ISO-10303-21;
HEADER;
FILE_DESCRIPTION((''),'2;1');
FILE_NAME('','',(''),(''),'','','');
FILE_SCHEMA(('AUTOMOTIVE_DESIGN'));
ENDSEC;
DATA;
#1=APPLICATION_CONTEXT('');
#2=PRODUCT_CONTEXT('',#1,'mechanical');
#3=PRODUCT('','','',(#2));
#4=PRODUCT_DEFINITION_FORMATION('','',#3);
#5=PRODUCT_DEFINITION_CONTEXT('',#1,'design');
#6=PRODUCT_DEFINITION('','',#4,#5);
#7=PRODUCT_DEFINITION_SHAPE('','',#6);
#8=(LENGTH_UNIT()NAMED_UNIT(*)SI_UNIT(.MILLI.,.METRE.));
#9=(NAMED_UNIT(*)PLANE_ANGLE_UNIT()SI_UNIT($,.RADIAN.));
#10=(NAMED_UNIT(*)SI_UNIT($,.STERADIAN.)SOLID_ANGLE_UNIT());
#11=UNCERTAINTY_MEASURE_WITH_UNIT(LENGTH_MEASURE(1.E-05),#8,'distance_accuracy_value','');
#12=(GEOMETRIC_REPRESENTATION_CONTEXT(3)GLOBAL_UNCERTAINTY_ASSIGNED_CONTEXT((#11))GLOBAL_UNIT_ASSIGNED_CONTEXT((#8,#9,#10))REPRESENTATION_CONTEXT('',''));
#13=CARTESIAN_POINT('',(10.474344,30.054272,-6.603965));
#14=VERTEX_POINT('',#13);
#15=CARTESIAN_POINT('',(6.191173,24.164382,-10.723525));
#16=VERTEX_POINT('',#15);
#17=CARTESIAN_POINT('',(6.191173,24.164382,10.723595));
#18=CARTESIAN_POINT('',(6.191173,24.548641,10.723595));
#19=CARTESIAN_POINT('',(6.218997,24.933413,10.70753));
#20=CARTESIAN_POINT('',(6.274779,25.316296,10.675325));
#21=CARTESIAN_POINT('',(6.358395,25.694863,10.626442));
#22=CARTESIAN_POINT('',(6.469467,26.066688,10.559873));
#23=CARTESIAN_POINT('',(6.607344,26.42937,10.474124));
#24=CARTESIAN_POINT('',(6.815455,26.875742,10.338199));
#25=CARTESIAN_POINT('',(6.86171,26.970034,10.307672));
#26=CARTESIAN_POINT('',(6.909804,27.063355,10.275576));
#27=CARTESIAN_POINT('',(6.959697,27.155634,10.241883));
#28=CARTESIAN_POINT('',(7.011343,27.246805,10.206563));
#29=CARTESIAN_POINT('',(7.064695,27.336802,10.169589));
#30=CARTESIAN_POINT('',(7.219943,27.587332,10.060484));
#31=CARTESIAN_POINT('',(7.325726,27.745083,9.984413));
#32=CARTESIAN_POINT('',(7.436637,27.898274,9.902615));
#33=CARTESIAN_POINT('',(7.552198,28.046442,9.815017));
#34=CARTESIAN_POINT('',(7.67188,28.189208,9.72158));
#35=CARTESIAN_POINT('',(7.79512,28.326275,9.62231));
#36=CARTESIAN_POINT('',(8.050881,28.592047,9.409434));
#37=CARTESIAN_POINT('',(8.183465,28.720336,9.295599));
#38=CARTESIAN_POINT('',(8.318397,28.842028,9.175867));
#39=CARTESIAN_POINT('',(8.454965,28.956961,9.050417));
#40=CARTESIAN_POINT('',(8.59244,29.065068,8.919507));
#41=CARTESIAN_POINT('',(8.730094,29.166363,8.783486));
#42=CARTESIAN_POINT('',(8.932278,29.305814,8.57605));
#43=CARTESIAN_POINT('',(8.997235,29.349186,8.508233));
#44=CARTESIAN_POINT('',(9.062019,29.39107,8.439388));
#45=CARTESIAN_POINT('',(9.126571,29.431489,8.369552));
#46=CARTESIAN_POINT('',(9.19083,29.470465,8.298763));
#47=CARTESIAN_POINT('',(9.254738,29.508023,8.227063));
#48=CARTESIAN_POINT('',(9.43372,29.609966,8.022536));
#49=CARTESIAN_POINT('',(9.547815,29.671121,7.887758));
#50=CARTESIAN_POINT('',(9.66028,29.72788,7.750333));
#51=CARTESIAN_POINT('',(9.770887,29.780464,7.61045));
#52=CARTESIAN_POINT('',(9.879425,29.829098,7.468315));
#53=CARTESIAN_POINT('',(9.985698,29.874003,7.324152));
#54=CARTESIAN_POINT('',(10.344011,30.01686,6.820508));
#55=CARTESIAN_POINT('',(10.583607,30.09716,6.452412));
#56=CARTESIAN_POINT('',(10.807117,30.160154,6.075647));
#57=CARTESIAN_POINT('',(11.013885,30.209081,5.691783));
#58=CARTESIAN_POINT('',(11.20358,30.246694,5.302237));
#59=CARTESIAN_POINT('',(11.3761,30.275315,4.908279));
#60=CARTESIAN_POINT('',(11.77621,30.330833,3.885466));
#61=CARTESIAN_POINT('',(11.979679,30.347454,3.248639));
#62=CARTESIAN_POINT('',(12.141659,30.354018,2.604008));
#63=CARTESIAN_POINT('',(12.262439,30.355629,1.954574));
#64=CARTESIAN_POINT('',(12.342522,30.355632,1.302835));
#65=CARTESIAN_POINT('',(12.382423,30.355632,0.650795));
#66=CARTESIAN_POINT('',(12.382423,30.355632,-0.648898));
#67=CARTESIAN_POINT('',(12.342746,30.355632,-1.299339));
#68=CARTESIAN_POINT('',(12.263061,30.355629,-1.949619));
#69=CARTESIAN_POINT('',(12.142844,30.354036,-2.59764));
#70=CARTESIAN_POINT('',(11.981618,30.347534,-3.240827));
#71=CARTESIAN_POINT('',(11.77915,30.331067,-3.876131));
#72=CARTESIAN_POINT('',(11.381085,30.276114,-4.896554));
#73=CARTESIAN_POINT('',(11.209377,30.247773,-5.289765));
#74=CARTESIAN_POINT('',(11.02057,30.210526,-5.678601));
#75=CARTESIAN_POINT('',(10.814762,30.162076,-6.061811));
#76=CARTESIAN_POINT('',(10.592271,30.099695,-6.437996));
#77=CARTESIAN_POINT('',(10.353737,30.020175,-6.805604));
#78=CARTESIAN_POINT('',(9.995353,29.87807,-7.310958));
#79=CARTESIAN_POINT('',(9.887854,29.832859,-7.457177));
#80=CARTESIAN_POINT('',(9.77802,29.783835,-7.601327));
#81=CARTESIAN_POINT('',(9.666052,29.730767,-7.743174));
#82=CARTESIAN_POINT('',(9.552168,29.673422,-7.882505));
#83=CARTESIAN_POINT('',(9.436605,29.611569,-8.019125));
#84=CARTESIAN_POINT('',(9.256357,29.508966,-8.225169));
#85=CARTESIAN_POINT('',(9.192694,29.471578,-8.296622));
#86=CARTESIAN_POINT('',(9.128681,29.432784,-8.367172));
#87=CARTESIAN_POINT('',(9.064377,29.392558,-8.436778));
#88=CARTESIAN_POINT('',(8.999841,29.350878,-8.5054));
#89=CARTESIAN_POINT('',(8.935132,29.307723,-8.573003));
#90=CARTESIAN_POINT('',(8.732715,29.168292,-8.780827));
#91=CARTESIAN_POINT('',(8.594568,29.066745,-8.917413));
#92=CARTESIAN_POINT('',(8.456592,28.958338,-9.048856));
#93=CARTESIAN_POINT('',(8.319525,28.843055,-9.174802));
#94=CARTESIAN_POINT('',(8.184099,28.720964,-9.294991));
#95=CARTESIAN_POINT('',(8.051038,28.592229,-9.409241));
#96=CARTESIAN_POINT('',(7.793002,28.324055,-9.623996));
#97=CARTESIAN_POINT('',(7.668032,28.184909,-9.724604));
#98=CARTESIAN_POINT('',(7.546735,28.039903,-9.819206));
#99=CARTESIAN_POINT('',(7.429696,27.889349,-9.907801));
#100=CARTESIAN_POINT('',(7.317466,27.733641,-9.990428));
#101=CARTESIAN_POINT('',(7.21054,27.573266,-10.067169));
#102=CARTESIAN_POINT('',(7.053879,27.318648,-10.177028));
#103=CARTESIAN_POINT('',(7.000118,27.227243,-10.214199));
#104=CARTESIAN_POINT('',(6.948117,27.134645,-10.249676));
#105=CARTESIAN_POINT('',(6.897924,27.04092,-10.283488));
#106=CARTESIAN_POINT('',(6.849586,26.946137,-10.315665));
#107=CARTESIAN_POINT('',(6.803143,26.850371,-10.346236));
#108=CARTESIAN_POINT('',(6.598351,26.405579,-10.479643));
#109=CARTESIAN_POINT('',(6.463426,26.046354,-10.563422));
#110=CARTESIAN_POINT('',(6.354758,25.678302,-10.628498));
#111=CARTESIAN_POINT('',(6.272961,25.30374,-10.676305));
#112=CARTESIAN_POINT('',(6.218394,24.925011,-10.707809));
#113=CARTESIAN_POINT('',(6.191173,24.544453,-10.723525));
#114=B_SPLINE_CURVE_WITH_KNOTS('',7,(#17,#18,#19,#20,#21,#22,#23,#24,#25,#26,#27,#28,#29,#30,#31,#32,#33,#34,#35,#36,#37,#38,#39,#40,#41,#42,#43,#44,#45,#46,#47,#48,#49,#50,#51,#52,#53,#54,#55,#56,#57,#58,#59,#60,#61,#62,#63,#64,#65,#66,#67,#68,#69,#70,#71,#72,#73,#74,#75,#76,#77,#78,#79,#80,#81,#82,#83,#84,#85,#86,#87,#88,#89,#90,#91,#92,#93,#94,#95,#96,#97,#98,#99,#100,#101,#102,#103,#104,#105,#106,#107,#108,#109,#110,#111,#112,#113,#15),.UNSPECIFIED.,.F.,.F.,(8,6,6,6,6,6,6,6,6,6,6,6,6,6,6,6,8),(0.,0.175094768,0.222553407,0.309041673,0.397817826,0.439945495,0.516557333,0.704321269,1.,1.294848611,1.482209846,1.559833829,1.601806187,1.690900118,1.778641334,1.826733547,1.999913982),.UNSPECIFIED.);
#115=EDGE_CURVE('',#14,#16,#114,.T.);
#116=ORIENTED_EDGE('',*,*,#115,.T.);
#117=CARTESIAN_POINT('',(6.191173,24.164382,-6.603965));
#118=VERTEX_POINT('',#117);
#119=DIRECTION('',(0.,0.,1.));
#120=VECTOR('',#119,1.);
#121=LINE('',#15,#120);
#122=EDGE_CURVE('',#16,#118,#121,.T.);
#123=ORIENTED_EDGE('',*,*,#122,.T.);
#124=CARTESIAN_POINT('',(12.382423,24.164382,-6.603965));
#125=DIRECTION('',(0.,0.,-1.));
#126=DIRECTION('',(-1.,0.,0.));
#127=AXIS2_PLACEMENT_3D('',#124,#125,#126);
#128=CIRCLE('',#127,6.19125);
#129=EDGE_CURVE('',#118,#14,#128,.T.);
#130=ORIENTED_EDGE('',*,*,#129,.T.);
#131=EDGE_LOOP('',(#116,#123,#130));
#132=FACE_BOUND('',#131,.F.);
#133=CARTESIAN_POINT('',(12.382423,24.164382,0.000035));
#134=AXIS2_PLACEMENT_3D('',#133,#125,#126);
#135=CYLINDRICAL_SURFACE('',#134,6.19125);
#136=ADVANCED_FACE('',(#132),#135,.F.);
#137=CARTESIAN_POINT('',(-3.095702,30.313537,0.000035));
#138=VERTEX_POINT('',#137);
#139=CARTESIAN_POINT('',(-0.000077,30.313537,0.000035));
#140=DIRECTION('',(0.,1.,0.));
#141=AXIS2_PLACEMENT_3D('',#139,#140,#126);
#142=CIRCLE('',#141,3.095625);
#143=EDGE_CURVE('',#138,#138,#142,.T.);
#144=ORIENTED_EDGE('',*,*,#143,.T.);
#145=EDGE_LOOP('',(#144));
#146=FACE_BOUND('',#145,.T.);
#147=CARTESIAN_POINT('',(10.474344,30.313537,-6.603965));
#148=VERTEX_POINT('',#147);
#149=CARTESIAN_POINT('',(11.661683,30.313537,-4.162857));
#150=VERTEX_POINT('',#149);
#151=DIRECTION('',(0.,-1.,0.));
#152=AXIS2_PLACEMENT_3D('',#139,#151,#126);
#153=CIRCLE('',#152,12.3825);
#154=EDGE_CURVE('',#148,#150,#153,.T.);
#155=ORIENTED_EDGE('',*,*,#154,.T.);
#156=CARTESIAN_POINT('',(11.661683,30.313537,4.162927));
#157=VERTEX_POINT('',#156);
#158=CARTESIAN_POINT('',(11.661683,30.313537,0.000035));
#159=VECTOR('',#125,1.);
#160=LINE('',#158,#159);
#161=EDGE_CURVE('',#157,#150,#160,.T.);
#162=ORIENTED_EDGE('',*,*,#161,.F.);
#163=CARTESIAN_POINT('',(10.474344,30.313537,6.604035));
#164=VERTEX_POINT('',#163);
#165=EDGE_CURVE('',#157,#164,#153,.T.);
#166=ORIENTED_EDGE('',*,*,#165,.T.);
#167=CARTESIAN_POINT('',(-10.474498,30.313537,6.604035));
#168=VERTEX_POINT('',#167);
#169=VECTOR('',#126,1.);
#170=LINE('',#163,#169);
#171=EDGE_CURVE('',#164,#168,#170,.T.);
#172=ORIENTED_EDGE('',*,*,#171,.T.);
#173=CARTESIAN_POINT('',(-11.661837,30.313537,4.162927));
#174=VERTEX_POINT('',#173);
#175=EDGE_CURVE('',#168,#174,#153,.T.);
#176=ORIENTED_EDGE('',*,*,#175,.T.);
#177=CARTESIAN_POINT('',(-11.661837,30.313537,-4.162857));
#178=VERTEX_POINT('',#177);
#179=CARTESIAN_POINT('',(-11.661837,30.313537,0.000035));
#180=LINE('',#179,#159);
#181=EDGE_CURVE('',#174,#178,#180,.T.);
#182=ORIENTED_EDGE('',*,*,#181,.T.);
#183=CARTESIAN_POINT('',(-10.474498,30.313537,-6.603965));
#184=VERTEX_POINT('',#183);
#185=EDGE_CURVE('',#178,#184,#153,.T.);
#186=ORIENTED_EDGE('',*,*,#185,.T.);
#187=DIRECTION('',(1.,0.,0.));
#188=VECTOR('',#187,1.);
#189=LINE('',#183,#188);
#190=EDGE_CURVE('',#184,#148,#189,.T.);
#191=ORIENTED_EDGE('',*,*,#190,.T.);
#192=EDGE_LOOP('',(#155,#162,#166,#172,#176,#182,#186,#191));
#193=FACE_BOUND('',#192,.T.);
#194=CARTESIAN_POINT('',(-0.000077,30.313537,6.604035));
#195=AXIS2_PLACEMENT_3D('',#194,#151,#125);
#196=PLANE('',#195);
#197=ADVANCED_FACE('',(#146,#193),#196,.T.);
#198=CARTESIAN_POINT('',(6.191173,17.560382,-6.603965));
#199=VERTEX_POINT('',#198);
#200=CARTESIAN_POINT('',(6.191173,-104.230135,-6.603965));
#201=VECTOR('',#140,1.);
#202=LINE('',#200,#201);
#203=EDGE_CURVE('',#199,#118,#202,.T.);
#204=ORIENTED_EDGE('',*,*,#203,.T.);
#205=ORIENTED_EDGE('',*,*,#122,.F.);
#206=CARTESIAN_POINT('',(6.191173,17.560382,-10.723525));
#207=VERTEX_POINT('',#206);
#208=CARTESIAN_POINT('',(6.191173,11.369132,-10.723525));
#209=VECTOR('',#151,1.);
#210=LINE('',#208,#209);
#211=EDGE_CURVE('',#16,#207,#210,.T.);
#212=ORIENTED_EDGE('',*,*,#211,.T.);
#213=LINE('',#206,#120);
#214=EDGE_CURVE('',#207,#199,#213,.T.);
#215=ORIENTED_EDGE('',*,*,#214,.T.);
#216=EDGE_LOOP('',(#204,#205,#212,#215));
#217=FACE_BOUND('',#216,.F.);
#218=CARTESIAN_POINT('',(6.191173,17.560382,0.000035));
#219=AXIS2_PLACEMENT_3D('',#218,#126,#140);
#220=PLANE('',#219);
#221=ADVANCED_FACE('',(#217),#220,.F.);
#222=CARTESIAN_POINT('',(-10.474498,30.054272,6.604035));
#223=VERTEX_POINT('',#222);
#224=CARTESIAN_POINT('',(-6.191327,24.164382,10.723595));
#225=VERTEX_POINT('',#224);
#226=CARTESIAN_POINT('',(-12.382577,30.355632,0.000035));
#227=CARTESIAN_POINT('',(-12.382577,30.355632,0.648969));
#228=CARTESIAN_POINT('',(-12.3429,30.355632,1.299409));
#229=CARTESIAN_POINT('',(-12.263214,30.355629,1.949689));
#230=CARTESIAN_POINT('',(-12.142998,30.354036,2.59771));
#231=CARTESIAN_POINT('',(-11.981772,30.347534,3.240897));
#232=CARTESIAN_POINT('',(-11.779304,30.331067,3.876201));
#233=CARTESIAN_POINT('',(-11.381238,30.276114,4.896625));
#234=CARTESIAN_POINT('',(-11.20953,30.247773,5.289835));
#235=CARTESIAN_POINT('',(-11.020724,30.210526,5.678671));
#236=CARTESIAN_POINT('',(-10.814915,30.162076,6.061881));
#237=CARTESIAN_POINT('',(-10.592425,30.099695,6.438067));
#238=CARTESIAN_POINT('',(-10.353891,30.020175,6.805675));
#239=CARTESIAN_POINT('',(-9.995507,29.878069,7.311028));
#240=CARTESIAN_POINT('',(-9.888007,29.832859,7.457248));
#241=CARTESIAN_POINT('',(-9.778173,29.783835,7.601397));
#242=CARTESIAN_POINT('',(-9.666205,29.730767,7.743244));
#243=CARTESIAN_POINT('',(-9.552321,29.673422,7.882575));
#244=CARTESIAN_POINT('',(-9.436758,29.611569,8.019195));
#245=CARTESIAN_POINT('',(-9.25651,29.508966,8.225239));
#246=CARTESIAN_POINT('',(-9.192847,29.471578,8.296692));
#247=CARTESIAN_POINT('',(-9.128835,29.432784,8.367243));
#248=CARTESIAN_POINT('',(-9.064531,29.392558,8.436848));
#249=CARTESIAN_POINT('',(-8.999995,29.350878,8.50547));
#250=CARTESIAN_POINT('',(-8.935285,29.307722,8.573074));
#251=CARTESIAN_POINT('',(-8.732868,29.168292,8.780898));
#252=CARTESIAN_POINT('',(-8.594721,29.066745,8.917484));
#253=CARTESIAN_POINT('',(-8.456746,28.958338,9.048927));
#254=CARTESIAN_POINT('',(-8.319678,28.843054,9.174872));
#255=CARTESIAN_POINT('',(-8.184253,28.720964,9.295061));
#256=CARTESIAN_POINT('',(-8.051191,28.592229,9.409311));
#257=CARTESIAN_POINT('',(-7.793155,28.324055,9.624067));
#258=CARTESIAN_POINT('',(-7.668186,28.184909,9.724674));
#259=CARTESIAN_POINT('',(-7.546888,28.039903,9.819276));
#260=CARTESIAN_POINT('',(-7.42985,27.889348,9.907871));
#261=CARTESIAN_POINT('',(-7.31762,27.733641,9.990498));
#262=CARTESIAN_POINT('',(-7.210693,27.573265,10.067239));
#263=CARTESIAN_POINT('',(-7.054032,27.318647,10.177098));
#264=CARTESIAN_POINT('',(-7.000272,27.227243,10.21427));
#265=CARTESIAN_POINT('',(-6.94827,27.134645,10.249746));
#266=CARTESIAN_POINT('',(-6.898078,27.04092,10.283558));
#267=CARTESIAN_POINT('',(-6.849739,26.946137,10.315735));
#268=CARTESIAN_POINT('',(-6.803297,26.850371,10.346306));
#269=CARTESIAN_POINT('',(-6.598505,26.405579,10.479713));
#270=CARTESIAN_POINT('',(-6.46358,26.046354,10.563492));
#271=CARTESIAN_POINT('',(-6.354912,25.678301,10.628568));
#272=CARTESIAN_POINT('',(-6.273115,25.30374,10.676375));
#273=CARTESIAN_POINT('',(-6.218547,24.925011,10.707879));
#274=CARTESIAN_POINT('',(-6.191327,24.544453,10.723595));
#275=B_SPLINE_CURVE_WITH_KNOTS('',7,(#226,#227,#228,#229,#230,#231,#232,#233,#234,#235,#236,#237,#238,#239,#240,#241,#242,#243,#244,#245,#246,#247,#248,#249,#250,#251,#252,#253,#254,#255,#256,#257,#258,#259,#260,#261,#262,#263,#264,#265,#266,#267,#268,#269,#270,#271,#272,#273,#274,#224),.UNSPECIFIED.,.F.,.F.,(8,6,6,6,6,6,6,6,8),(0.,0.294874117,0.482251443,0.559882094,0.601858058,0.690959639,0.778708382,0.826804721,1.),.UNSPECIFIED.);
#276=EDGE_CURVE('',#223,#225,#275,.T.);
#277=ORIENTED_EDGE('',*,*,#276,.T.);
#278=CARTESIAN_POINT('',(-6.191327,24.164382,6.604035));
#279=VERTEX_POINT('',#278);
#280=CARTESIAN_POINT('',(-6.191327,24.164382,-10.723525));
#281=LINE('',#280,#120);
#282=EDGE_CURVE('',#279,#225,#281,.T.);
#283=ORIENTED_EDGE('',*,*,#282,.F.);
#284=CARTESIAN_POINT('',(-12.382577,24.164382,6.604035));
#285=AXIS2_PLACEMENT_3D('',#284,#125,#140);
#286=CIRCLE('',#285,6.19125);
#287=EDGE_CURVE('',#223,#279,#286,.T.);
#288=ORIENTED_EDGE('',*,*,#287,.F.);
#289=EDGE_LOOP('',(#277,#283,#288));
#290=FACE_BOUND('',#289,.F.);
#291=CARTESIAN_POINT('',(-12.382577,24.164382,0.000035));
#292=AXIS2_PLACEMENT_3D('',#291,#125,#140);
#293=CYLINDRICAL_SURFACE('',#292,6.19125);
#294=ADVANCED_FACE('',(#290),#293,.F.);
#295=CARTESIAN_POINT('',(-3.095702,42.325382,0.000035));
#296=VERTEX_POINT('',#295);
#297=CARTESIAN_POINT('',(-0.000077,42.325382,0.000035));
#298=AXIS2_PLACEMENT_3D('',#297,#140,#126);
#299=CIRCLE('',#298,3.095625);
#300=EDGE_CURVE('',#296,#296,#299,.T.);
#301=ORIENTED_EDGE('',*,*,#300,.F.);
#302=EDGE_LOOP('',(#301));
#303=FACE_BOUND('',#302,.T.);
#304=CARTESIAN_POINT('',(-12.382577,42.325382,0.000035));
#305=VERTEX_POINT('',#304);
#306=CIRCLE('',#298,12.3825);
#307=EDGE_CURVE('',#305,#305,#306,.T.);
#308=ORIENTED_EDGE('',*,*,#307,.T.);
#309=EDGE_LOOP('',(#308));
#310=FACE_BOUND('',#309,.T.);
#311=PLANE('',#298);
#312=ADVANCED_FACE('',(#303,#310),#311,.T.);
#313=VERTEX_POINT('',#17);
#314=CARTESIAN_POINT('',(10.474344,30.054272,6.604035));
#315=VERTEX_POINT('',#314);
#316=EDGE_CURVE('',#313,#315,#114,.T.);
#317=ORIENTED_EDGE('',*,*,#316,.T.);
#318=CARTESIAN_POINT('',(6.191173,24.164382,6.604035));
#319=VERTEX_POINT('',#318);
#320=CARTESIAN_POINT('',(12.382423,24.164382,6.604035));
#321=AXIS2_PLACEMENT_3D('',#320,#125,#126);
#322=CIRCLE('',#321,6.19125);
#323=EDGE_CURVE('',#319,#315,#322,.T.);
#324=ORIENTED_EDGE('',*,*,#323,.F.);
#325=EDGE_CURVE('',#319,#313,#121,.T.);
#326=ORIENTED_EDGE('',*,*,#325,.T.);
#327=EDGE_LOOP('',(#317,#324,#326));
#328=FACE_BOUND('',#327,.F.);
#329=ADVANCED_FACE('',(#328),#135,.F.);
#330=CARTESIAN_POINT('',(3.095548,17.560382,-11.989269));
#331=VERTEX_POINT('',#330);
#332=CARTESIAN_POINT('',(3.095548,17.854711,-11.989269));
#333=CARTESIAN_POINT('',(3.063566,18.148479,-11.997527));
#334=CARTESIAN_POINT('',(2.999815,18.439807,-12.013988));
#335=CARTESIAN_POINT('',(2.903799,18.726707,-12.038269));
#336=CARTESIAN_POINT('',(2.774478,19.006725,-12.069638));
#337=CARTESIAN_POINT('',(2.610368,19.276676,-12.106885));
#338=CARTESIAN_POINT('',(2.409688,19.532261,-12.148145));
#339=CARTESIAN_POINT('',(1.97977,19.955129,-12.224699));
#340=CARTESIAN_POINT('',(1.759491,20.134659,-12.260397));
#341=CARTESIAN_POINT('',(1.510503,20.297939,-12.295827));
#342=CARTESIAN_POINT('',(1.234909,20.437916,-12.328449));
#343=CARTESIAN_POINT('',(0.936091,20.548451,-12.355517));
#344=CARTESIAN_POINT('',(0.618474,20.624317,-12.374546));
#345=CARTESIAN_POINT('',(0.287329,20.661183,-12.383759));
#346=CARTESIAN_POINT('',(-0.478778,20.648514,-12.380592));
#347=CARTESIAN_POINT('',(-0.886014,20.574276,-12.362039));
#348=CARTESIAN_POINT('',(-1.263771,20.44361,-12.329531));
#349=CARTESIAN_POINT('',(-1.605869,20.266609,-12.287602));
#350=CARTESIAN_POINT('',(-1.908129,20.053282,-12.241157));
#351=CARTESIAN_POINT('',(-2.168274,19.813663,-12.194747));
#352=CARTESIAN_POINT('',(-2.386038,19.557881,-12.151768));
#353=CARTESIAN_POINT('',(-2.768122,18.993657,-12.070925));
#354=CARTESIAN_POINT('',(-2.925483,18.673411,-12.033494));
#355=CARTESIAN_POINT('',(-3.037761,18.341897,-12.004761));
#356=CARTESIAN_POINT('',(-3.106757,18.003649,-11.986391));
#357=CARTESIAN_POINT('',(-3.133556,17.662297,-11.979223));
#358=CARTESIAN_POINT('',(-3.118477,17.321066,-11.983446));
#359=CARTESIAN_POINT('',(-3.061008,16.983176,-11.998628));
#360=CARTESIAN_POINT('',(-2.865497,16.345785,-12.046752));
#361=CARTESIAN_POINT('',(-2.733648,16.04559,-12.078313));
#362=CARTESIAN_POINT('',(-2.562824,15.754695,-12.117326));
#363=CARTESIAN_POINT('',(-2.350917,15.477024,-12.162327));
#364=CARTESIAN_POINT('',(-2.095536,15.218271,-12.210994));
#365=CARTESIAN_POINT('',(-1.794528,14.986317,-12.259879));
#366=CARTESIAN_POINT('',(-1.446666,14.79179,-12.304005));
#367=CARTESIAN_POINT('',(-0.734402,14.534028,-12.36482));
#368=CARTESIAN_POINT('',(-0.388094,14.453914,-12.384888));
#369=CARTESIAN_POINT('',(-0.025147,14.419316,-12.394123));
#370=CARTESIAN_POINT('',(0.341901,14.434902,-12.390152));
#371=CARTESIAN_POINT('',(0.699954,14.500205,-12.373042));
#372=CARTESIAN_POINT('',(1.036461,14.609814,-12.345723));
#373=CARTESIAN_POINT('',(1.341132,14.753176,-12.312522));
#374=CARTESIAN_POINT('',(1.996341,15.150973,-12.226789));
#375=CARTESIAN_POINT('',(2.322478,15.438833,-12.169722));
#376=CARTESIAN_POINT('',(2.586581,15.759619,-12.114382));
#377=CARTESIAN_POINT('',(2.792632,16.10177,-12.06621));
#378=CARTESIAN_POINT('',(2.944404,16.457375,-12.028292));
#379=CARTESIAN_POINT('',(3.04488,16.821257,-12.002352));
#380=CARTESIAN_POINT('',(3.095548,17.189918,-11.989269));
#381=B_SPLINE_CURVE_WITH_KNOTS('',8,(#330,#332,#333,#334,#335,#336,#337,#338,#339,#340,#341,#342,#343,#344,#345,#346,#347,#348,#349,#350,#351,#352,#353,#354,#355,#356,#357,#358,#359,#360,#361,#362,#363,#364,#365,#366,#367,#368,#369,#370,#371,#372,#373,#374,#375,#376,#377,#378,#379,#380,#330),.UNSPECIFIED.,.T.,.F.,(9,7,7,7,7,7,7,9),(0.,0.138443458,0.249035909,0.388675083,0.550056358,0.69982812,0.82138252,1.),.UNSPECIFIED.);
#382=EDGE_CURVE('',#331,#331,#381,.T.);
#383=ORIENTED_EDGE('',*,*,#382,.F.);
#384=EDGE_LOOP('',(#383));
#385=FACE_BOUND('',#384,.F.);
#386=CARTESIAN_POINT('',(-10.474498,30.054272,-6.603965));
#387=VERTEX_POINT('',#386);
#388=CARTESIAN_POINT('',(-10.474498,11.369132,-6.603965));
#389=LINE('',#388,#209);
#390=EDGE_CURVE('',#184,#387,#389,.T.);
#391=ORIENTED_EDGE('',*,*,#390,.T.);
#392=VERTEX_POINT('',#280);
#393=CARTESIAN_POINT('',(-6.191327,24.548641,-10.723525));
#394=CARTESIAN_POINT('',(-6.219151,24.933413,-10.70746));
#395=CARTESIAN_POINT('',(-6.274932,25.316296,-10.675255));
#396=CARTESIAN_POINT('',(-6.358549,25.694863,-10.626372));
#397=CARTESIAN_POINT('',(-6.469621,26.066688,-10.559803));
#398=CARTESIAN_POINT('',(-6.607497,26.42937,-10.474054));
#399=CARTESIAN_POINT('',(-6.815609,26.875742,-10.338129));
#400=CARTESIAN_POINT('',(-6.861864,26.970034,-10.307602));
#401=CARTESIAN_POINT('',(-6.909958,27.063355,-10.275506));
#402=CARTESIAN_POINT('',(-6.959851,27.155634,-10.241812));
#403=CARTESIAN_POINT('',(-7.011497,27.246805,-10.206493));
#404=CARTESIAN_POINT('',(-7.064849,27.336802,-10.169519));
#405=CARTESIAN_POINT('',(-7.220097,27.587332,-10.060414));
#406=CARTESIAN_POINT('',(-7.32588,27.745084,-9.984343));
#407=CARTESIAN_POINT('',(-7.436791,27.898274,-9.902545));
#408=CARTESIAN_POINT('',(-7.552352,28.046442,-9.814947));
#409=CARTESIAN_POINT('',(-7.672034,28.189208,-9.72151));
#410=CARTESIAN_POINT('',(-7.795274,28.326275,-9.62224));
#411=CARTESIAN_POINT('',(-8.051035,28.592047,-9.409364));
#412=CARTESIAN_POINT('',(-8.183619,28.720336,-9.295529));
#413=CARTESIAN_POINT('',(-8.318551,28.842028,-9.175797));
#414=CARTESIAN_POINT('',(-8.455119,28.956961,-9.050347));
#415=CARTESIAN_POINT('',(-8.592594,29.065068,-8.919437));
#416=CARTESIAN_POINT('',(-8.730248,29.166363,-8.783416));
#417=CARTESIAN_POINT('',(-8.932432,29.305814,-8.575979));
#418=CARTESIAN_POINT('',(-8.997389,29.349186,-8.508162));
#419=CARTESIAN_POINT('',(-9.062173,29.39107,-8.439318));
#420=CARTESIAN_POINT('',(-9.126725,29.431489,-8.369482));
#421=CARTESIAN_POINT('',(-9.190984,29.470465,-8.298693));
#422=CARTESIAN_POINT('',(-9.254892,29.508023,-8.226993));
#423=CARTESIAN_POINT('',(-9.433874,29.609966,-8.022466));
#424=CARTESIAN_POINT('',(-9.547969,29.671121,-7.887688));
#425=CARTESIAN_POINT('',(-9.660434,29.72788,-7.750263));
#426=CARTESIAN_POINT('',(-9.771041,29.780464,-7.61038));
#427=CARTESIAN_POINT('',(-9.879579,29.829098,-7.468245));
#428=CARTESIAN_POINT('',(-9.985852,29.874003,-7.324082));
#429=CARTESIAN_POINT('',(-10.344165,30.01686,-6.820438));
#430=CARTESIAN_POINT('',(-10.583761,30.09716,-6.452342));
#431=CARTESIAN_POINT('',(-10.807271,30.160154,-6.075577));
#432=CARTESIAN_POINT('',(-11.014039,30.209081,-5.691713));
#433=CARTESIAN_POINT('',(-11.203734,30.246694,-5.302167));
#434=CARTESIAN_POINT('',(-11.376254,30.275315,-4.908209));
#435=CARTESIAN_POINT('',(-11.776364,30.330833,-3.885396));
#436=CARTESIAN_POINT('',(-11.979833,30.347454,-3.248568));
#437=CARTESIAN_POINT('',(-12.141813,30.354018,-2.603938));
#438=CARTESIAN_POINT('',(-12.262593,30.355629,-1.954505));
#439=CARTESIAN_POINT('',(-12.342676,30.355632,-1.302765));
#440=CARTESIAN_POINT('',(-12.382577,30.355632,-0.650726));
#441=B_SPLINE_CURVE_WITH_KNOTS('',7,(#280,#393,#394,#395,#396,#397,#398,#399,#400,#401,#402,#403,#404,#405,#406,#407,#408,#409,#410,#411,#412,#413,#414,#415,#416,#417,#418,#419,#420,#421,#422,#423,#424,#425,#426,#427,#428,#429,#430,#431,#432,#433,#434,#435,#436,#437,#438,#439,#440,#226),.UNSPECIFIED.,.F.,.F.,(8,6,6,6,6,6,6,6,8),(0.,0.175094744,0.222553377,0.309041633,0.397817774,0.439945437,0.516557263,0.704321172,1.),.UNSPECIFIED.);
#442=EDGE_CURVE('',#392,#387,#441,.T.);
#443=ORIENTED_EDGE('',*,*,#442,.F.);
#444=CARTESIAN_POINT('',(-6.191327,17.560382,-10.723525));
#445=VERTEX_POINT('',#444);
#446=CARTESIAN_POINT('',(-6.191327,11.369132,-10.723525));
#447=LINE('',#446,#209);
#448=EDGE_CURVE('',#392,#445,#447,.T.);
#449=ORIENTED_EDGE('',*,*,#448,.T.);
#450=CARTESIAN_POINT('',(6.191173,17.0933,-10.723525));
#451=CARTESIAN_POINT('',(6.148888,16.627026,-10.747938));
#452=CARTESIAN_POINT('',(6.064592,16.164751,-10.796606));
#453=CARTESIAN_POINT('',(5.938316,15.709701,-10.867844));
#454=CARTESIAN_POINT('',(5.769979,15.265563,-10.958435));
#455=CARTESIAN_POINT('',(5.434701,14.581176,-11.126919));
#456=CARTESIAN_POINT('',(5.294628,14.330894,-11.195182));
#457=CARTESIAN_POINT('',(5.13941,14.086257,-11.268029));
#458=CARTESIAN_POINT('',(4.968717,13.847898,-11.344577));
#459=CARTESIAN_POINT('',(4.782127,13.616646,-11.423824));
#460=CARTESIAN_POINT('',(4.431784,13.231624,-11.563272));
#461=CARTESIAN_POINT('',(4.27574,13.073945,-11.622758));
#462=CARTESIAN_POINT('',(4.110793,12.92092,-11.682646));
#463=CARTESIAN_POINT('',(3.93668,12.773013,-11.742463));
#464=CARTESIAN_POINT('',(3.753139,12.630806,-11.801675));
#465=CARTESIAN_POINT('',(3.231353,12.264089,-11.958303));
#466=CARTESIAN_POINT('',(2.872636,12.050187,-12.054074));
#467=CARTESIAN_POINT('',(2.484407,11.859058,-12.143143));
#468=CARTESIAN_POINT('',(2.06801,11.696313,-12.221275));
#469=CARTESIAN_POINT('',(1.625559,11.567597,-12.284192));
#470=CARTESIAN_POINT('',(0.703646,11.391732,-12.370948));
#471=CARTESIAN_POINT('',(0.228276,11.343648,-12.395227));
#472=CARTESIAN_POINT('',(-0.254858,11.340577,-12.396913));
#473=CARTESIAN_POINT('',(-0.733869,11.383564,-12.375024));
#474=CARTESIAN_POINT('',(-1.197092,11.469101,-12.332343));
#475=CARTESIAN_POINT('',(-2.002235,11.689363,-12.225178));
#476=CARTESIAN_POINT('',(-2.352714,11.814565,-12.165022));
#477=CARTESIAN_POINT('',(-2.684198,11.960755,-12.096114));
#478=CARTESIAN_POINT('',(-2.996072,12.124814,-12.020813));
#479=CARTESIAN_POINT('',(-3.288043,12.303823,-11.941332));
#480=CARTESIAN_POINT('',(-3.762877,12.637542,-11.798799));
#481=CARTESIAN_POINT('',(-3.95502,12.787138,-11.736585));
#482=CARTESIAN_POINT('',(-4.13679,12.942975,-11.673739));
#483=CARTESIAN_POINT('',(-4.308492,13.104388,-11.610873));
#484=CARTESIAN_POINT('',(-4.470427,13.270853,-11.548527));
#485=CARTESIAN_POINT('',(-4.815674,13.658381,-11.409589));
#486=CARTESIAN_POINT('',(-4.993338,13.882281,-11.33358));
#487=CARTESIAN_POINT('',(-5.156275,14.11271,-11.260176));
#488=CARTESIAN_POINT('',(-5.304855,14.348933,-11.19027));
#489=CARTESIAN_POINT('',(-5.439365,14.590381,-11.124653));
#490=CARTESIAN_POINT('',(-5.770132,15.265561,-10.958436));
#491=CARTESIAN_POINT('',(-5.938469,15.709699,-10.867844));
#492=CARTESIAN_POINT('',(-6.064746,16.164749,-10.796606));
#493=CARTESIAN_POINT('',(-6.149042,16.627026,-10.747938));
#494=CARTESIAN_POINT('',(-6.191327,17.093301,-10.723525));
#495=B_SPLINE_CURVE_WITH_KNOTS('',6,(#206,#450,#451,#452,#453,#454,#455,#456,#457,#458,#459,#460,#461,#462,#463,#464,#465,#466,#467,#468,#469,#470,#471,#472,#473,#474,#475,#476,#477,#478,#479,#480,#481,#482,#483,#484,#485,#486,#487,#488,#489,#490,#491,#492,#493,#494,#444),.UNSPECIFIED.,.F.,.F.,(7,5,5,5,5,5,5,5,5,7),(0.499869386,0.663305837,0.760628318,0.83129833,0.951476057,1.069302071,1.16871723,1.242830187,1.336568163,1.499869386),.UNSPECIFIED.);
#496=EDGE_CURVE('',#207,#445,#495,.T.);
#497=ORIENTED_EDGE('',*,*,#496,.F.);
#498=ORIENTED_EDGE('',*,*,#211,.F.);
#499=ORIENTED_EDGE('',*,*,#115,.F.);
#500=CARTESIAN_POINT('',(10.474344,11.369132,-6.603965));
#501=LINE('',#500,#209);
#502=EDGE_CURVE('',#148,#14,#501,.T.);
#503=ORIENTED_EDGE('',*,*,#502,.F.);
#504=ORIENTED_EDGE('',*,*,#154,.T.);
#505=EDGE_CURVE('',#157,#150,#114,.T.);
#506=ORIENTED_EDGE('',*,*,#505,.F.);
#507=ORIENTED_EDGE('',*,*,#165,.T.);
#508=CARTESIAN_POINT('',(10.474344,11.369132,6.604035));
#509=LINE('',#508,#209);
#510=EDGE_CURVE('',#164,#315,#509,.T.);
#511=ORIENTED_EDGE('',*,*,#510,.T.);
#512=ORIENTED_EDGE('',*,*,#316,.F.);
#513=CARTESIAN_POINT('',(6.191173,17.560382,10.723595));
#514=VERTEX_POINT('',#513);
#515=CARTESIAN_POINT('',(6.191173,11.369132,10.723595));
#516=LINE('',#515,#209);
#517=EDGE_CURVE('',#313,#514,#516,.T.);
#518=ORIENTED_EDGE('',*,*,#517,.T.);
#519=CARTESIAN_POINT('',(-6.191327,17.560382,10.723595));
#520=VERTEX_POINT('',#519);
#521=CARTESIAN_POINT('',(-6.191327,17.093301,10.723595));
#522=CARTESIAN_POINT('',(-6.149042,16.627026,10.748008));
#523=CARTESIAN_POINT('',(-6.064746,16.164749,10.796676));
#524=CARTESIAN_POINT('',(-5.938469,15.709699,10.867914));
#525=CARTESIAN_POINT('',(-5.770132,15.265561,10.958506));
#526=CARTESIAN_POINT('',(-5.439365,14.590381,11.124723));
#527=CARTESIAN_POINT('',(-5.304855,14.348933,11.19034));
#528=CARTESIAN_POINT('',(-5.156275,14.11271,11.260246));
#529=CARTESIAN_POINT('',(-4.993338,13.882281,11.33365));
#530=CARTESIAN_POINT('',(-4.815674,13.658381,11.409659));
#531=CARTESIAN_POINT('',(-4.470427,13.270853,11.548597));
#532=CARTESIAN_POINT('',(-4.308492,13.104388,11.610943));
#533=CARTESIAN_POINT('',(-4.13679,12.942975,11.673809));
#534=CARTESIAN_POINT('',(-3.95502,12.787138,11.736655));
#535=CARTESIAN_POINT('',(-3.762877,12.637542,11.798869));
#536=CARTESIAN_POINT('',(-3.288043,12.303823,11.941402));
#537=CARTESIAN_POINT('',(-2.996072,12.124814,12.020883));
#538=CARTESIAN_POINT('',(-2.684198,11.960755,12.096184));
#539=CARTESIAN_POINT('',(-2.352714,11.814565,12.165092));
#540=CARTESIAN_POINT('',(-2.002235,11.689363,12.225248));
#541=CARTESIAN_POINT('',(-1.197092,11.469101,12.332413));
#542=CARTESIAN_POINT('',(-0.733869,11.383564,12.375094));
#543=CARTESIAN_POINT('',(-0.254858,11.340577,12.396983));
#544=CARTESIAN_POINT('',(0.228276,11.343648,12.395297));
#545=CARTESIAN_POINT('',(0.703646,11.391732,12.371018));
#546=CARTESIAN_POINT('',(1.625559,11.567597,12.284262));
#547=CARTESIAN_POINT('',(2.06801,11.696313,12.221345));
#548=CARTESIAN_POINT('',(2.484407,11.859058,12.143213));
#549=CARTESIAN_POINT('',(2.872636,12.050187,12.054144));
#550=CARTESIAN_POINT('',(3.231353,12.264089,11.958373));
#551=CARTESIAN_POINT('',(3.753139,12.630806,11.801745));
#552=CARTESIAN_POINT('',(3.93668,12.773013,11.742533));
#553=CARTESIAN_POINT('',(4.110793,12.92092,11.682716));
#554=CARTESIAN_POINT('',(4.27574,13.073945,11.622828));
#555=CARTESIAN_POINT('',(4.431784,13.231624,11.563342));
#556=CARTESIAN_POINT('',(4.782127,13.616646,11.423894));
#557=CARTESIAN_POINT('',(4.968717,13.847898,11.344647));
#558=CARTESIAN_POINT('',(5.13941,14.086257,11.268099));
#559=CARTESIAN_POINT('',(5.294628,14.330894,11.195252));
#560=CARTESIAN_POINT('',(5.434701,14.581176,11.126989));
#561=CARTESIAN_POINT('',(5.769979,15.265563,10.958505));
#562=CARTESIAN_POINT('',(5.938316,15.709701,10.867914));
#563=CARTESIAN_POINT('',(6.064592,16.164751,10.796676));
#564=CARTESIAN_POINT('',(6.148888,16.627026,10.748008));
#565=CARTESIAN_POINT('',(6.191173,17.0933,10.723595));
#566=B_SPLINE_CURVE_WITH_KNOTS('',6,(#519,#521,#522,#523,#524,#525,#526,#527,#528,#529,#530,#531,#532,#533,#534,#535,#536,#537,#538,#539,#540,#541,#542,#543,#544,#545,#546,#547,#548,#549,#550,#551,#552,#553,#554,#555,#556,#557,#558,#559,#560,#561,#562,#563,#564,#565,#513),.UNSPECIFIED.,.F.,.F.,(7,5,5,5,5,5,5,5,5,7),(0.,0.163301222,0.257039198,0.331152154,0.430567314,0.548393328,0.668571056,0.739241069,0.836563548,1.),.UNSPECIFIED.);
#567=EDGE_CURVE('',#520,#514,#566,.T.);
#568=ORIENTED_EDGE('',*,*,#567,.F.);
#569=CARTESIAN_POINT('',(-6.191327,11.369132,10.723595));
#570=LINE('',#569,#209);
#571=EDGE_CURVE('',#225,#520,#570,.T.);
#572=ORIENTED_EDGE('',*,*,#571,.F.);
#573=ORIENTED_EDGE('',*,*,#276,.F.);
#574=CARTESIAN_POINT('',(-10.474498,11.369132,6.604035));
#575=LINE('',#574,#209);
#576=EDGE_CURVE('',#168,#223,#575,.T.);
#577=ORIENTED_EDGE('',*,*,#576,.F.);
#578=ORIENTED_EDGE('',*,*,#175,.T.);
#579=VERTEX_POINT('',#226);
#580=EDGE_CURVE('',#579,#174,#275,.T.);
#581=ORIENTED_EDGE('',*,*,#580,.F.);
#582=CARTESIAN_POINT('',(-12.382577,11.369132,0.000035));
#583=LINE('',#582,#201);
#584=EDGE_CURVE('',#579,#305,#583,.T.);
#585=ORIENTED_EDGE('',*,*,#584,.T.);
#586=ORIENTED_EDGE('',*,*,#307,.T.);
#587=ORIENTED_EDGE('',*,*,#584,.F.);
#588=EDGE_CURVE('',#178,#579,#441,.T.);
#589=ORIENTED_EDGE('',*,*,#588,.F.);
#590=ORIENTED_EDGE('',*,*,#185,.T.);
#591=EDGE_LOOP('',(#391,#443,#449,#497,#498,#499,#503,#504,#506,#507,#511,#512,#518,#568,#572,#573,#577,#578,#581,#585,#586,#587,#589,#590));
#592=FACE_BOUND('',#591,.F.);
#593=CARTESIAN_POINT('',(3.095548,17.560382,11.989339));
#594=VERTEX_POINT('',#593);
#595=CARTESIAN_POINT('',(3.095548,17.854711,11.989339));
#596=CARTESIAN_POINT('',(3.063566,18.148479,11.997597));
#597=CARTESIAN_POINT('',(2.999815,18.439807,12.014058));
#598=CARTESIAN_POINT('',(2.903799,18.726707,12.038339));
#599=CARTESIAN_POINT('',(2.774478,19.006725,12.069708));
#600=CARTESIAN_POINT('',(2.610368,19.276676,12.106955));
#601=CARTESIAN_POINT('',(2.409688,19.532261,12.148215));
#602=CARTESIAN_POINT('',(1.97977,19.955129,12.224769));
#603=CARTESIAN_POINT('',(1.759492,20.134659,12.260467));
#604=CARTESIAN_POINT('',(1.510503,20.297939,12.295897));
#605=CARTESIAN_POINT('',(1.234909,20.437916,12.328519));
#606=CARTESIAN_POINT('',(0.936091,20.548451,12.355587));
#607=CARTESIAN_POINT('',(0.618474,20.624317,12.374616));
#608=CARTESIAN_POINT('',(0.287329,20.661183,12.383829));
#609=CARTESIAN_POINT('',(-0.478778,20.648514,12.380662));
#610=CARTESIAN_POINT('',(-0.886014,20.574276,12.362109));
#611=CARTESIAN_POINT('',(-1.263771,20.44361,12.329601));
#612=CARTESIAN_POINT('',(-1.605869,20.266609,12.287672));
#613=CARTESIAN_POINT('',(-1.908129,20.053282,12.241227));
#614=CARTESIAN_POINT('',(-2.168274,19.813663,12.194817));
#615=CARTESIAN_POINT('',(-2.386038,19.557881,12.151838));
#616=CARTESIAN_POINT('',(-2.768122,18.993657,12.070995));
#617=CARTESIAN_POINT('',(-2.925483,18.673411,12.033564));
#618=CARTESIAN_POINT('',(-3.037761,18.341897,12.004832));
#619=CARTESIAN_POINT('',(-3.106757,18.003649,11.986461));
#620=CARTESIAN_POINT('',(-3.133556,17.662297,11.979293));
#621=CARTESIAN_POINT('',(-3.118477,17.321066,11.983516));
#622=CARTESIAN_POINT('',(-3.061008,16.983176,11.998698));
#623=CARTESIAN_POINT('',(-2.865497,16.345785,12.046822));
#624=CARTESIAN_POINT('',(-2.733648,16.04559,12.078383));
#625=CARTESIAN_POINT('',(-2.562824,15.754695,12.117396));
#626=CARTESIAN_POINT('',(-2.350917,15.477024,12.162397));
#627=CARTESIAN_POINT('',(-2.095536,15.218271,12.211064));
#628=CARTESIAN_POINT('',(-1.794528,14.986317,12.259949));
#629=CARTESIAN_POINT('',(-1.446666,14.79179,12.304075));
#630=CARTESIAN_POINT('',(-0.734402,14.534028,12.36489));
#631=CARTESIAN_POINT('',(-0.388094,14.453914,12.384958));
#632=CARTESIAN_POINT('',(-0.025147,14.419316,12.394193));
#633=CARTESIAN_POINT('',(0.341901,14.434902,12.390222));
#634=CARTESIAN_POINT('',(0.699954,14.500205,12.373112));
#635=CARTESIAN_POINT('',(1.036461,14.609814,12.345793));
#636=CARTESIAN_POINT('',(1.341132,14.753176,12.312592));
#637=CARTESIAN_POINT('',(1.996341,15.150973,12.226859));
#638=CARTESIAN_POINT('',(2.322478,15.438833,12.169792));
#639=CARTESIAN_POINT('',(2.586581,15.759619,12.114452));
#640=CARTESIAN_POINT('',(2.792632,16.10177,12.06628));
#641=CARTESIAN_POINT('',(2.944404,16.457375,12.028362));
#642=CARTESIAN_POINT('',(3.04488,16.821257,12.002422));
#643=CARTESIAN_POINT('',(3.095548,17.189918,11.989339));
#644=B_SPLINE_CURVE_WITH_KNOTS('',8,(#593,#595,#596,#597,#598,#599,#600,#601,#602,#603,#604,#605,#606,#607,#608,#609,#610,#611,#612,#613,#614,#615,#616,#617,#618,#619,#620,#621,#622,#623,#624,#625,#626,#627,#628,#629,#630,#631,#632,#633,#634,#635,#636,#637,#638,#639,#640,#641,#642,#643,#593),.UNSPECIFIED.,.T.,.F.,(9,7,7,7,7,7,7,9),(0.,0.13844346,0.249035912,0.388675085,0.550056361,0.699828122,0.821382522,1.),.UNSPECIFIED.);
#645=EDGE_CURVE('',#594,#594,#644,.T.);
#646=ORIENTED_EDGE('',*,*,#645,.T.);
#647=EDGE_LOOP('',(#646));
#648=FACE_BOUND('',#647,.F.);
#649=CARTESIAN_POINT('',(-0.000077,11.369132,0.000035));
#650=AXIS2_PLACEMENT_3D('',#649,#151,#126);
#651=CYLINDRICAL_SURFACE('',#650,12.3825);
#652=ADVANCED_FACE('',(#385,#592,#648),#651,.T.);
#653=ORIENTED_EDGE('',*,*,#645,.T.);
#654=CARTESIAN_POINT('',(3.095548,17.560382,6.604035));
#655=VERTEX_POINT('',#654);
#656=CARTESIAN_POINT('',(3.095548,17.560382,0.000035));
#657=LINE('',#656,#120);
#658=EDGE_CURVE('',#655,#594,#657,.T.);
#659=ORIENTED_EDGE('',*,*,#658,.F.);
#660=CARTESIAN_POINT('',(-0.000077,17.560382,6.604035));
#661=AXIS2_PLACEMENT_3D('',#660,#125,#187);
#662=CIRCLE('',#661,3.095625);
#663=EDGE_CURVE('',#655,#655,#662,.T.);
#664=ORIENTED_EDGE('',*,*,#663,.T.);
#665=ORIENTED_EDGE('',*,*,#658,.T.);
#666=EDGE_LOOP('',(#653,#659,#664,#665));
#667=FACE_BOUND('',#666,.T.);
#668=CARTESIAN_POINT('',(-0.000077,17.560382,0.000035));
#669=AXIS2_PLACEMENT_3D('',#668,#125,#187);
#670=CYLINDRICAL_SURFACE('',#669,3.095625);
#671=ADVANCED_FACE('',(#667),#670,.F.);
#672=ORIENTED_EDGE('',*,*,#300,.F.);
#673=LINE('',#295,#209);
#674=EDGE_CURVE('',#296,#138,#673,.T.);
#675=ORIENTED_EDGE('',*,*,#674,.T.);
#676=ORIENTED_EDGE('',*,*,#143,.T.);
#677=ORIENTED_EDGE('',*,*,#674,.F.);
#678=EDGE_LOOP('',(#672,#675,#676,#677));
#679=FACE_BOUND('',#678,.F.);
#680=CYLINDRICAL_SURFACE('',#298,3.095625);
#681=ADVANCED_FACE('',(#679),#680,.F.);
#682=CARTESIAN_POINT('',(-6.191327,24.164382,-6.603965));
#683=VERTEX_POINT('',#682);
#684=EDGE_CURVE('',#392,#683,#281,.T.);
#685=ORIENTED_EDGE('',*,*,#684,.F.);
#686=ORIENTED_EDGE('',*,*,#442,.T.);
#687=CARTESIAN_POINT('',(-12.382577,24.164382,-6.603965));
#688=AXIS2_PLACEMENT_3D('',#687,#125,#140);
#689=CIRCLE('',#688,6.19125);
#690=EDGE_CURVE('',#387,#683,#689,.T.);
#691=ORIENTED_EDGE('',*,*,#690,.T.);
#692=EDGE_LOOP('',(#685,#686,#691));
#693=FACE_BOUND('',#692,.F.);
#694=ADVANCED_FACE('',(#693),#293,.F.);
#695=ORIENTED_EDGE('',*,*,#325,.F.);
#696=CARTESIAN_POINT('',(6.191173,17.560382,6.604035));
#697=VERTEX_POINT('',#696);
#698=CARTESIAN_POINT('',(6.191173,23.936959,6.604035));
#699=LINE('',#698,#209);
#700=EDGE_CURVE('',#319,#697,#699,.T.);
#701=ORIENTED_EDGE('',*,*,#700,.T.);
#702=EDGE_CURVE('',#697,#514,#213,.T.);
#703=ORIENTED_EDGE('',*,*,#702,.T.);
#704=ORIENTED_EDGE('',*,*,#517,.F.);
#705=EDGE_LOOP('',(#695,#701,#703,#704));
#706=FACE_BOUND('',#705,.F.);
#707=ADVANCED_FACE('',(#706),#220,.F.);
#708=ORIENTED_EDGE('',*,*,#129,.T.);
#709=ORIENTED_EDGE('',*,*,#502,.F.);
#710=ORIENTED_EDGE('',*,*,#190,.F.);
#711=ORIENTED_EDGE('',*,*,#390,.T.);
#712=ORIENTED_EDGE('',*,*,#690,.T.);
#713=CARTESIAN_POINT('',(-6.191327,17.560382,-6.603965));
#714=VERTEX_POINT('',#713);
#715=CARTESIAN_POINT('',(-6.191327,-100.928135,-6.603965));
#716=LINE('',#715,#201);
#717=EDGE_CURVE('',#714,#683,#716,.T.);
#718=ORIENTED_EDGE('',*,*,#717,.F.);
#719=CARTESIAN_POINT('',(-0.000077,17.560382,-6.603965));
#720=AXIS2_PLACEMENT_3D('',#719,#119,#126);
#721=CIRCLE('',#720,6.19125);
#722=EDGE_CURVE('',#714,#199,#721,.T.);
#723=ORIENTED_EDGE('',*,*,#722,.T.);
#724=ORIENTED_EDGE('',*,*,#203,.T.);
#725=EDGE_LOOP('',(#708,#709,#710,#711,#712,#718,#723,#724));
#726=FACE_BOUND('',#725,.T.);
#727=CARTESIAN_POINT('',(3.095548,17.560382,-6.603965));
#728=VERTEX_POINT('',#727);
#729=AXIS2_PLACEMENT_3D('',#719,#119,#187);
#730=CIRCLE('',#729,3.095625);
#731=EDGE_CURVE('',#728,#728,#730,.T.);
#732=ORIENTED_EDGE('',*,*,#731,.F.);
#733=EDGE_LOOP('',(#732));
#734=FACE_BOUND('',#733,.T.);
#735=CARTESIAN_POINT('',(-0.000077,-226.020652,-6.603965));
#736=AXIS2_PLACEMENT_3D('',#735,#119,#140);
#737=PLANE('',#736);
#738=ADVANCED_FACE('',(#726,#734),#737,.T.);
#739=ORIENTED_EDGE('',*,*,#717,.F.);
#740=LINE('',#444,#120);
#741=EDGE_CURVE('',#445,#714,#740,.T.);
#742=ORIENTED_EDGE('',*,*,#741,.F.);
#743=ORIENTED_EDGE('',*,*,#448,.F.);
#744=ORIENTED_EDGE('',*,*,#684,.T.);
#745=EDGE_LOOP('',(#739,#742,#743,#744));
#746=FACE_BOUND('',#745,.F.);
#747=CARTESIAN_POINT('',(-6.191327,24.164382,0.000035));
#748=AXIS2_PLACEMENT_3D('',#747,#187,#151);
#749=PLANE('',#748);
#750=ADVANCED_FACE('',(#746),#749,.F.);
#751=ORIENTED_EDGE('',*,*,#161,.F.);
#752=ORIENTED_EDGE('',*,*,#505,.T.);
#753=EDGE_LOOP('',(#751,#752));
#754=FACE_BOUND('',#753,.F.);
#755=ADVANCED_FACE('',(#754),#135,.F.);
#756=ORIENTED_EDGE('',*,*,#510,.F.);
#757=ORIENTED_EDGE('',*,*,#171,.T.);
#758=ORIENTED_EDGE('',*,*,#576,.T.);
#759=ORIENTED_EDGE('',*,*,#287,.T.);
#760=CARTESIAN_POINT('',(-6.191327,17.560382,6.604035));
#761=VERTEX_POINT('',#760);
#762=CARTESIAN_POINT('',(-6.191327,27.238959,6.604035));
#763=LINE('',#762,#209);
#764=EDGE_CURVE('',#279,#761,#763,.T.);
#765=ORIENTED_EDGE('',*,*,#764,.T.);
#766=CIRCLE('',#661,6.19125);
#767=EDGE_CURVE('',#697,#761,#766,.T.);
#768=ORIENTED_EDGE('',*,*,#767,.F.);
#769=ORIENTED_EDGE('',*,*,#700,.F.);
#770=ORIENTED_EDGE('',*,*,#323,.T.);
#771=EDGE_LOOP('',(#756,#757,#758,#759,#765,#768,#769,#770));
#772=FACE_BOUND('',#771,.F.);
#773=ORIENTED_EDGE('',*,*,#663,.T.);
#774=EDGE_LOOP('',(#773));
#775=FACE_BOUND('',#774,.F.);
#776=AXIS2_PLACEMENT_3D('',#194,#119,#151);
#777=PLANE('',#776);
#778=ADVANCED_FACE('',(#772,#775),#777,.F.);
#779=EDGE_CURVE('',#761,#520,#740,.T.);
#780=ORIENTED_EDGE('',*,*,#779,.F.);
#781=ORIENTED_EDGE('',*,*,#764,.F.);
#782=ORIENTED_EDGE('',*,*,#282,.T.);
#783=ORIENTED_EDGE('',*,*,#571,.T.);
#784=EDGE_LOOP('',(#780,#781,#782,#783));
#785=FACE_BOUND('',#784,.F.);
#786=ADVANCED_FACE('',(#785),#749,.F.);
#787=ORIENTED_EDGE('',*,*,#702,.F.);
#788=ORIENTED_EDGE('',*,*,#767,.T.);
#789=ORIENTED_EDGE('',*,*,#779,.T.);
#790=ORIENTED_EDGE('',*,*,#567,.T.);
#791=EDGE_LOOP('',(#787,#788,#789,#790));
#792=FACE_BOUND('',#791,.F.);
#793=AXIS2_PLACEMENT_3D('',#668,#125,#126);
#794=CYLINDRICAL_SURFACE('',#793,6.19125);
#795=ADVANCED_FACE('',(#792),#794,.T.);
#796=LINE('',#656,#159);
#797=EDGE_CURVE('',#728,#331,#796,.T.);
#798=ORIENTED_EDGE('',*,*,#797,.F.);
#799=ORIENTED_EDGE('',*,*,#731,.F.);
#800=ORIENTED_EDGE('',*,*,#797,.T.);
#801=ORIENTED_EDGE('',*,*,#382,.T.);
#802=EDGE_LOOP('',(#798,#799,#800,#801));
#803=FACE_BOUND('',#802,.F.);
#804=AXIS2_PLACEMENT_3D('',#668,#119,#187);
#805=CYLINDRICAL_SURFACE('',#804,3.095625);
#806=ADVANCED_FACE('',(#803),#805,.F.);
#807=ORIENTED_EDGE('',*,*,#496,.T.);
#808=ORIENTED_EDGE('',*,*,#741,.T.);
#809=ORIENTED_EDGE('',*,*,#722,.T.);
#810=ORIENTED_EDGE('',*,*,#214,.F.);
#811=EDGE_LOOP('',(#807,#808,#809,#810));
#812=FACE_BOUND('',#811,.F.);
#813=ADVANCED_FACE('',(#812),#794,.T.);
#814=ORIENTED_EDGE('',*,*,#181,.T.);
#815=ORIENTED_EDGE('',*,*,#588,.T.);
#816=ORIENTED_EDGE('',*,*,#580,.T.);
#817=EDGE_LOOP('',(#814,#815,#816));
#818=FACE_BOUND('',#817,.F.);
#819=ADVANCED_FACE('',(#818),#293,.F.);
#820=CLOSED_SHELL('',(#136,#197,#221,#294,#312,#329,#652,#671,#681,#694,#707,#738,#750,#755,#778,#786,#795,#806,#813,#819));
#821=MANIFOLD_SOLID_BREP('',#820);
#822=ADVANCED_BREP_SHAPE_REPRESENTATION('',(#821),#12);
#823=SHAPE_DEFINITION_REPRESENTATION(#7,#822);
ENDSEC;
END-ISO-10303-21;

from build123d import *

# Parameters (mm, degrees)
SKETCH1_R               = 19.05
BASE_EXTRUDE_DEPTH      = 47.625
CUT_EXTRUDE1_DEPTH      = 20.05
CUT_EXTRUDE1_DEPTH_BACK = 20.05
CUT_EXTRUDE5_DEPTH      = 20.0500001
CUT_EXTRUDE5_DEPTH_BACK = 20.0500001
SKETCH11_R              = 4.7625
CUT_EXTRUDE6_DEPTH      = 20.0500001
CUT_EXTRUDE6_DEPTH_BACK = 20.0500001
SKETCH12_R              = 4.7625
CUT_EXTRUDE7_DEPTH      = 48.625000104
SCALE1_SCALE            = 0.65


with BuildPart() as part:
    # Sketch1 → Base-Extrude (new body)
    with BuildSketch(Plane(origin=(0, 0, 0), x_dir=(-1, 0, 0), z_dir=(0, 1, 0))):
        Circle(SKETCH1_R)
    extrude(amount=BASE_EXTRUDE_DEPTH)

    # Sketch2 → Cut-Extrude1 (cut, two sides)
    with BuildSketch(Plane.XY) as cut_extrude1_sk:
        with BuildLine():
            Line((-19.05, -131.979516723), (-19.05, 0))
            Line((-19.05, 0), (-19.05, 29.21))
            ThreePointArc((-19.05, 29.21), (-12.314807909, 26.420192091), (-9.525, 19.685))
            Line((-9.525, 19.685), (-9.525, 9.525))
            ThreePointArc((-9.525, 9.525), (0, 0), (9.525, 9.525))
            Line((9.525, 9.525), (9.525, 19.685))
            ThreePointArc((9.525, 19.685), (12.314807909, 26.420192091), (19.05, 29.21))
            Line((19.05, 29.21), (19.05, 0))
            Line((19.05, 0), (19.05, -131.979516723))
            Line((19.05, -131.979516723), (19.05, -395.938550169))
            Line((19.05, -395.938550169), (-19.05, -395.938550169))
            Line((-19.05, -395.938550169), (-19.05, -131.979516723))
        make_face()
    extrude(amount=CUT_EXTRUDE1_DEPTH, mode=Mode.SUBTRACT)
    extrude(cut_extrude1_sk.sketch, amount=-CUT_EXTRUDE1_DEPTH_BACK, mode=Mode.SUBTRACT)

    # Sketch8 → Cut-Extrude5 (cut, two sides)
    with BuildSketch(Plane(origin=(0, 0, 0), x_dir=(0, 0, -1), z_dir=(1, 0, 0))) as cut_extrude5_sk:
        Polygon((-10.16, -121.738350451), (-10.16, 0), (-10.16, 29.145238826), (10.16, 29.145238826), (10.16, 0), (10.16, -121.738350451), (10.16, -365.215051352), (-10.16, -365.215051352), align=None)
    extrude(amount=CUT_EXTRUDE5_DEPTH, mode=Mode.SUBTRACT)
    extrude(cut_extrude5_sk.sketch, amount=-CUT_EXTRUDE5_DEPTH_BACK, mode=Mode.SUBTRACT)

    # Sketch11 → Cut-Extrude6 (cut, two sides)
    with BuildSketch(Plane.XY) as cut_extrude6_sk:
        with Locations((0, 9.525)):
            Circle(SKETCH11_R)
    extrude(amount=CUT_EXTRUDE6_DEPTH, mode=Mode.SUBTRACT)
    extrude(cut_extrude6_sk.sketch, amount=-CUT_EXTRUDE6_DEPTH_BACK, mode=Mode.SUBTRACT)

    # Sketch12 → Cut-Extrude7 (cut, through all)
    with BuildSketch(Plane(origin=(0, 47.625, 0), x_dir=(-1, 0, 0), z_dir=(0, 1, 0))):
        Circle(SKETCH12_R)
    extrude(amount=-CUT_EXTRUDE7_DEPTH, mode=Mode.SUBTRACT)


with BuildPart() as part_1:
    # Scale1: scaled about (-0.00021981, 32.483233493, 0.000100002)
    add(part.part.scale(SCALE1_SCALE).moved(Location((-7.6933e-05, 11.369131723, 3.5001e-05))))


solid = part_1.part
